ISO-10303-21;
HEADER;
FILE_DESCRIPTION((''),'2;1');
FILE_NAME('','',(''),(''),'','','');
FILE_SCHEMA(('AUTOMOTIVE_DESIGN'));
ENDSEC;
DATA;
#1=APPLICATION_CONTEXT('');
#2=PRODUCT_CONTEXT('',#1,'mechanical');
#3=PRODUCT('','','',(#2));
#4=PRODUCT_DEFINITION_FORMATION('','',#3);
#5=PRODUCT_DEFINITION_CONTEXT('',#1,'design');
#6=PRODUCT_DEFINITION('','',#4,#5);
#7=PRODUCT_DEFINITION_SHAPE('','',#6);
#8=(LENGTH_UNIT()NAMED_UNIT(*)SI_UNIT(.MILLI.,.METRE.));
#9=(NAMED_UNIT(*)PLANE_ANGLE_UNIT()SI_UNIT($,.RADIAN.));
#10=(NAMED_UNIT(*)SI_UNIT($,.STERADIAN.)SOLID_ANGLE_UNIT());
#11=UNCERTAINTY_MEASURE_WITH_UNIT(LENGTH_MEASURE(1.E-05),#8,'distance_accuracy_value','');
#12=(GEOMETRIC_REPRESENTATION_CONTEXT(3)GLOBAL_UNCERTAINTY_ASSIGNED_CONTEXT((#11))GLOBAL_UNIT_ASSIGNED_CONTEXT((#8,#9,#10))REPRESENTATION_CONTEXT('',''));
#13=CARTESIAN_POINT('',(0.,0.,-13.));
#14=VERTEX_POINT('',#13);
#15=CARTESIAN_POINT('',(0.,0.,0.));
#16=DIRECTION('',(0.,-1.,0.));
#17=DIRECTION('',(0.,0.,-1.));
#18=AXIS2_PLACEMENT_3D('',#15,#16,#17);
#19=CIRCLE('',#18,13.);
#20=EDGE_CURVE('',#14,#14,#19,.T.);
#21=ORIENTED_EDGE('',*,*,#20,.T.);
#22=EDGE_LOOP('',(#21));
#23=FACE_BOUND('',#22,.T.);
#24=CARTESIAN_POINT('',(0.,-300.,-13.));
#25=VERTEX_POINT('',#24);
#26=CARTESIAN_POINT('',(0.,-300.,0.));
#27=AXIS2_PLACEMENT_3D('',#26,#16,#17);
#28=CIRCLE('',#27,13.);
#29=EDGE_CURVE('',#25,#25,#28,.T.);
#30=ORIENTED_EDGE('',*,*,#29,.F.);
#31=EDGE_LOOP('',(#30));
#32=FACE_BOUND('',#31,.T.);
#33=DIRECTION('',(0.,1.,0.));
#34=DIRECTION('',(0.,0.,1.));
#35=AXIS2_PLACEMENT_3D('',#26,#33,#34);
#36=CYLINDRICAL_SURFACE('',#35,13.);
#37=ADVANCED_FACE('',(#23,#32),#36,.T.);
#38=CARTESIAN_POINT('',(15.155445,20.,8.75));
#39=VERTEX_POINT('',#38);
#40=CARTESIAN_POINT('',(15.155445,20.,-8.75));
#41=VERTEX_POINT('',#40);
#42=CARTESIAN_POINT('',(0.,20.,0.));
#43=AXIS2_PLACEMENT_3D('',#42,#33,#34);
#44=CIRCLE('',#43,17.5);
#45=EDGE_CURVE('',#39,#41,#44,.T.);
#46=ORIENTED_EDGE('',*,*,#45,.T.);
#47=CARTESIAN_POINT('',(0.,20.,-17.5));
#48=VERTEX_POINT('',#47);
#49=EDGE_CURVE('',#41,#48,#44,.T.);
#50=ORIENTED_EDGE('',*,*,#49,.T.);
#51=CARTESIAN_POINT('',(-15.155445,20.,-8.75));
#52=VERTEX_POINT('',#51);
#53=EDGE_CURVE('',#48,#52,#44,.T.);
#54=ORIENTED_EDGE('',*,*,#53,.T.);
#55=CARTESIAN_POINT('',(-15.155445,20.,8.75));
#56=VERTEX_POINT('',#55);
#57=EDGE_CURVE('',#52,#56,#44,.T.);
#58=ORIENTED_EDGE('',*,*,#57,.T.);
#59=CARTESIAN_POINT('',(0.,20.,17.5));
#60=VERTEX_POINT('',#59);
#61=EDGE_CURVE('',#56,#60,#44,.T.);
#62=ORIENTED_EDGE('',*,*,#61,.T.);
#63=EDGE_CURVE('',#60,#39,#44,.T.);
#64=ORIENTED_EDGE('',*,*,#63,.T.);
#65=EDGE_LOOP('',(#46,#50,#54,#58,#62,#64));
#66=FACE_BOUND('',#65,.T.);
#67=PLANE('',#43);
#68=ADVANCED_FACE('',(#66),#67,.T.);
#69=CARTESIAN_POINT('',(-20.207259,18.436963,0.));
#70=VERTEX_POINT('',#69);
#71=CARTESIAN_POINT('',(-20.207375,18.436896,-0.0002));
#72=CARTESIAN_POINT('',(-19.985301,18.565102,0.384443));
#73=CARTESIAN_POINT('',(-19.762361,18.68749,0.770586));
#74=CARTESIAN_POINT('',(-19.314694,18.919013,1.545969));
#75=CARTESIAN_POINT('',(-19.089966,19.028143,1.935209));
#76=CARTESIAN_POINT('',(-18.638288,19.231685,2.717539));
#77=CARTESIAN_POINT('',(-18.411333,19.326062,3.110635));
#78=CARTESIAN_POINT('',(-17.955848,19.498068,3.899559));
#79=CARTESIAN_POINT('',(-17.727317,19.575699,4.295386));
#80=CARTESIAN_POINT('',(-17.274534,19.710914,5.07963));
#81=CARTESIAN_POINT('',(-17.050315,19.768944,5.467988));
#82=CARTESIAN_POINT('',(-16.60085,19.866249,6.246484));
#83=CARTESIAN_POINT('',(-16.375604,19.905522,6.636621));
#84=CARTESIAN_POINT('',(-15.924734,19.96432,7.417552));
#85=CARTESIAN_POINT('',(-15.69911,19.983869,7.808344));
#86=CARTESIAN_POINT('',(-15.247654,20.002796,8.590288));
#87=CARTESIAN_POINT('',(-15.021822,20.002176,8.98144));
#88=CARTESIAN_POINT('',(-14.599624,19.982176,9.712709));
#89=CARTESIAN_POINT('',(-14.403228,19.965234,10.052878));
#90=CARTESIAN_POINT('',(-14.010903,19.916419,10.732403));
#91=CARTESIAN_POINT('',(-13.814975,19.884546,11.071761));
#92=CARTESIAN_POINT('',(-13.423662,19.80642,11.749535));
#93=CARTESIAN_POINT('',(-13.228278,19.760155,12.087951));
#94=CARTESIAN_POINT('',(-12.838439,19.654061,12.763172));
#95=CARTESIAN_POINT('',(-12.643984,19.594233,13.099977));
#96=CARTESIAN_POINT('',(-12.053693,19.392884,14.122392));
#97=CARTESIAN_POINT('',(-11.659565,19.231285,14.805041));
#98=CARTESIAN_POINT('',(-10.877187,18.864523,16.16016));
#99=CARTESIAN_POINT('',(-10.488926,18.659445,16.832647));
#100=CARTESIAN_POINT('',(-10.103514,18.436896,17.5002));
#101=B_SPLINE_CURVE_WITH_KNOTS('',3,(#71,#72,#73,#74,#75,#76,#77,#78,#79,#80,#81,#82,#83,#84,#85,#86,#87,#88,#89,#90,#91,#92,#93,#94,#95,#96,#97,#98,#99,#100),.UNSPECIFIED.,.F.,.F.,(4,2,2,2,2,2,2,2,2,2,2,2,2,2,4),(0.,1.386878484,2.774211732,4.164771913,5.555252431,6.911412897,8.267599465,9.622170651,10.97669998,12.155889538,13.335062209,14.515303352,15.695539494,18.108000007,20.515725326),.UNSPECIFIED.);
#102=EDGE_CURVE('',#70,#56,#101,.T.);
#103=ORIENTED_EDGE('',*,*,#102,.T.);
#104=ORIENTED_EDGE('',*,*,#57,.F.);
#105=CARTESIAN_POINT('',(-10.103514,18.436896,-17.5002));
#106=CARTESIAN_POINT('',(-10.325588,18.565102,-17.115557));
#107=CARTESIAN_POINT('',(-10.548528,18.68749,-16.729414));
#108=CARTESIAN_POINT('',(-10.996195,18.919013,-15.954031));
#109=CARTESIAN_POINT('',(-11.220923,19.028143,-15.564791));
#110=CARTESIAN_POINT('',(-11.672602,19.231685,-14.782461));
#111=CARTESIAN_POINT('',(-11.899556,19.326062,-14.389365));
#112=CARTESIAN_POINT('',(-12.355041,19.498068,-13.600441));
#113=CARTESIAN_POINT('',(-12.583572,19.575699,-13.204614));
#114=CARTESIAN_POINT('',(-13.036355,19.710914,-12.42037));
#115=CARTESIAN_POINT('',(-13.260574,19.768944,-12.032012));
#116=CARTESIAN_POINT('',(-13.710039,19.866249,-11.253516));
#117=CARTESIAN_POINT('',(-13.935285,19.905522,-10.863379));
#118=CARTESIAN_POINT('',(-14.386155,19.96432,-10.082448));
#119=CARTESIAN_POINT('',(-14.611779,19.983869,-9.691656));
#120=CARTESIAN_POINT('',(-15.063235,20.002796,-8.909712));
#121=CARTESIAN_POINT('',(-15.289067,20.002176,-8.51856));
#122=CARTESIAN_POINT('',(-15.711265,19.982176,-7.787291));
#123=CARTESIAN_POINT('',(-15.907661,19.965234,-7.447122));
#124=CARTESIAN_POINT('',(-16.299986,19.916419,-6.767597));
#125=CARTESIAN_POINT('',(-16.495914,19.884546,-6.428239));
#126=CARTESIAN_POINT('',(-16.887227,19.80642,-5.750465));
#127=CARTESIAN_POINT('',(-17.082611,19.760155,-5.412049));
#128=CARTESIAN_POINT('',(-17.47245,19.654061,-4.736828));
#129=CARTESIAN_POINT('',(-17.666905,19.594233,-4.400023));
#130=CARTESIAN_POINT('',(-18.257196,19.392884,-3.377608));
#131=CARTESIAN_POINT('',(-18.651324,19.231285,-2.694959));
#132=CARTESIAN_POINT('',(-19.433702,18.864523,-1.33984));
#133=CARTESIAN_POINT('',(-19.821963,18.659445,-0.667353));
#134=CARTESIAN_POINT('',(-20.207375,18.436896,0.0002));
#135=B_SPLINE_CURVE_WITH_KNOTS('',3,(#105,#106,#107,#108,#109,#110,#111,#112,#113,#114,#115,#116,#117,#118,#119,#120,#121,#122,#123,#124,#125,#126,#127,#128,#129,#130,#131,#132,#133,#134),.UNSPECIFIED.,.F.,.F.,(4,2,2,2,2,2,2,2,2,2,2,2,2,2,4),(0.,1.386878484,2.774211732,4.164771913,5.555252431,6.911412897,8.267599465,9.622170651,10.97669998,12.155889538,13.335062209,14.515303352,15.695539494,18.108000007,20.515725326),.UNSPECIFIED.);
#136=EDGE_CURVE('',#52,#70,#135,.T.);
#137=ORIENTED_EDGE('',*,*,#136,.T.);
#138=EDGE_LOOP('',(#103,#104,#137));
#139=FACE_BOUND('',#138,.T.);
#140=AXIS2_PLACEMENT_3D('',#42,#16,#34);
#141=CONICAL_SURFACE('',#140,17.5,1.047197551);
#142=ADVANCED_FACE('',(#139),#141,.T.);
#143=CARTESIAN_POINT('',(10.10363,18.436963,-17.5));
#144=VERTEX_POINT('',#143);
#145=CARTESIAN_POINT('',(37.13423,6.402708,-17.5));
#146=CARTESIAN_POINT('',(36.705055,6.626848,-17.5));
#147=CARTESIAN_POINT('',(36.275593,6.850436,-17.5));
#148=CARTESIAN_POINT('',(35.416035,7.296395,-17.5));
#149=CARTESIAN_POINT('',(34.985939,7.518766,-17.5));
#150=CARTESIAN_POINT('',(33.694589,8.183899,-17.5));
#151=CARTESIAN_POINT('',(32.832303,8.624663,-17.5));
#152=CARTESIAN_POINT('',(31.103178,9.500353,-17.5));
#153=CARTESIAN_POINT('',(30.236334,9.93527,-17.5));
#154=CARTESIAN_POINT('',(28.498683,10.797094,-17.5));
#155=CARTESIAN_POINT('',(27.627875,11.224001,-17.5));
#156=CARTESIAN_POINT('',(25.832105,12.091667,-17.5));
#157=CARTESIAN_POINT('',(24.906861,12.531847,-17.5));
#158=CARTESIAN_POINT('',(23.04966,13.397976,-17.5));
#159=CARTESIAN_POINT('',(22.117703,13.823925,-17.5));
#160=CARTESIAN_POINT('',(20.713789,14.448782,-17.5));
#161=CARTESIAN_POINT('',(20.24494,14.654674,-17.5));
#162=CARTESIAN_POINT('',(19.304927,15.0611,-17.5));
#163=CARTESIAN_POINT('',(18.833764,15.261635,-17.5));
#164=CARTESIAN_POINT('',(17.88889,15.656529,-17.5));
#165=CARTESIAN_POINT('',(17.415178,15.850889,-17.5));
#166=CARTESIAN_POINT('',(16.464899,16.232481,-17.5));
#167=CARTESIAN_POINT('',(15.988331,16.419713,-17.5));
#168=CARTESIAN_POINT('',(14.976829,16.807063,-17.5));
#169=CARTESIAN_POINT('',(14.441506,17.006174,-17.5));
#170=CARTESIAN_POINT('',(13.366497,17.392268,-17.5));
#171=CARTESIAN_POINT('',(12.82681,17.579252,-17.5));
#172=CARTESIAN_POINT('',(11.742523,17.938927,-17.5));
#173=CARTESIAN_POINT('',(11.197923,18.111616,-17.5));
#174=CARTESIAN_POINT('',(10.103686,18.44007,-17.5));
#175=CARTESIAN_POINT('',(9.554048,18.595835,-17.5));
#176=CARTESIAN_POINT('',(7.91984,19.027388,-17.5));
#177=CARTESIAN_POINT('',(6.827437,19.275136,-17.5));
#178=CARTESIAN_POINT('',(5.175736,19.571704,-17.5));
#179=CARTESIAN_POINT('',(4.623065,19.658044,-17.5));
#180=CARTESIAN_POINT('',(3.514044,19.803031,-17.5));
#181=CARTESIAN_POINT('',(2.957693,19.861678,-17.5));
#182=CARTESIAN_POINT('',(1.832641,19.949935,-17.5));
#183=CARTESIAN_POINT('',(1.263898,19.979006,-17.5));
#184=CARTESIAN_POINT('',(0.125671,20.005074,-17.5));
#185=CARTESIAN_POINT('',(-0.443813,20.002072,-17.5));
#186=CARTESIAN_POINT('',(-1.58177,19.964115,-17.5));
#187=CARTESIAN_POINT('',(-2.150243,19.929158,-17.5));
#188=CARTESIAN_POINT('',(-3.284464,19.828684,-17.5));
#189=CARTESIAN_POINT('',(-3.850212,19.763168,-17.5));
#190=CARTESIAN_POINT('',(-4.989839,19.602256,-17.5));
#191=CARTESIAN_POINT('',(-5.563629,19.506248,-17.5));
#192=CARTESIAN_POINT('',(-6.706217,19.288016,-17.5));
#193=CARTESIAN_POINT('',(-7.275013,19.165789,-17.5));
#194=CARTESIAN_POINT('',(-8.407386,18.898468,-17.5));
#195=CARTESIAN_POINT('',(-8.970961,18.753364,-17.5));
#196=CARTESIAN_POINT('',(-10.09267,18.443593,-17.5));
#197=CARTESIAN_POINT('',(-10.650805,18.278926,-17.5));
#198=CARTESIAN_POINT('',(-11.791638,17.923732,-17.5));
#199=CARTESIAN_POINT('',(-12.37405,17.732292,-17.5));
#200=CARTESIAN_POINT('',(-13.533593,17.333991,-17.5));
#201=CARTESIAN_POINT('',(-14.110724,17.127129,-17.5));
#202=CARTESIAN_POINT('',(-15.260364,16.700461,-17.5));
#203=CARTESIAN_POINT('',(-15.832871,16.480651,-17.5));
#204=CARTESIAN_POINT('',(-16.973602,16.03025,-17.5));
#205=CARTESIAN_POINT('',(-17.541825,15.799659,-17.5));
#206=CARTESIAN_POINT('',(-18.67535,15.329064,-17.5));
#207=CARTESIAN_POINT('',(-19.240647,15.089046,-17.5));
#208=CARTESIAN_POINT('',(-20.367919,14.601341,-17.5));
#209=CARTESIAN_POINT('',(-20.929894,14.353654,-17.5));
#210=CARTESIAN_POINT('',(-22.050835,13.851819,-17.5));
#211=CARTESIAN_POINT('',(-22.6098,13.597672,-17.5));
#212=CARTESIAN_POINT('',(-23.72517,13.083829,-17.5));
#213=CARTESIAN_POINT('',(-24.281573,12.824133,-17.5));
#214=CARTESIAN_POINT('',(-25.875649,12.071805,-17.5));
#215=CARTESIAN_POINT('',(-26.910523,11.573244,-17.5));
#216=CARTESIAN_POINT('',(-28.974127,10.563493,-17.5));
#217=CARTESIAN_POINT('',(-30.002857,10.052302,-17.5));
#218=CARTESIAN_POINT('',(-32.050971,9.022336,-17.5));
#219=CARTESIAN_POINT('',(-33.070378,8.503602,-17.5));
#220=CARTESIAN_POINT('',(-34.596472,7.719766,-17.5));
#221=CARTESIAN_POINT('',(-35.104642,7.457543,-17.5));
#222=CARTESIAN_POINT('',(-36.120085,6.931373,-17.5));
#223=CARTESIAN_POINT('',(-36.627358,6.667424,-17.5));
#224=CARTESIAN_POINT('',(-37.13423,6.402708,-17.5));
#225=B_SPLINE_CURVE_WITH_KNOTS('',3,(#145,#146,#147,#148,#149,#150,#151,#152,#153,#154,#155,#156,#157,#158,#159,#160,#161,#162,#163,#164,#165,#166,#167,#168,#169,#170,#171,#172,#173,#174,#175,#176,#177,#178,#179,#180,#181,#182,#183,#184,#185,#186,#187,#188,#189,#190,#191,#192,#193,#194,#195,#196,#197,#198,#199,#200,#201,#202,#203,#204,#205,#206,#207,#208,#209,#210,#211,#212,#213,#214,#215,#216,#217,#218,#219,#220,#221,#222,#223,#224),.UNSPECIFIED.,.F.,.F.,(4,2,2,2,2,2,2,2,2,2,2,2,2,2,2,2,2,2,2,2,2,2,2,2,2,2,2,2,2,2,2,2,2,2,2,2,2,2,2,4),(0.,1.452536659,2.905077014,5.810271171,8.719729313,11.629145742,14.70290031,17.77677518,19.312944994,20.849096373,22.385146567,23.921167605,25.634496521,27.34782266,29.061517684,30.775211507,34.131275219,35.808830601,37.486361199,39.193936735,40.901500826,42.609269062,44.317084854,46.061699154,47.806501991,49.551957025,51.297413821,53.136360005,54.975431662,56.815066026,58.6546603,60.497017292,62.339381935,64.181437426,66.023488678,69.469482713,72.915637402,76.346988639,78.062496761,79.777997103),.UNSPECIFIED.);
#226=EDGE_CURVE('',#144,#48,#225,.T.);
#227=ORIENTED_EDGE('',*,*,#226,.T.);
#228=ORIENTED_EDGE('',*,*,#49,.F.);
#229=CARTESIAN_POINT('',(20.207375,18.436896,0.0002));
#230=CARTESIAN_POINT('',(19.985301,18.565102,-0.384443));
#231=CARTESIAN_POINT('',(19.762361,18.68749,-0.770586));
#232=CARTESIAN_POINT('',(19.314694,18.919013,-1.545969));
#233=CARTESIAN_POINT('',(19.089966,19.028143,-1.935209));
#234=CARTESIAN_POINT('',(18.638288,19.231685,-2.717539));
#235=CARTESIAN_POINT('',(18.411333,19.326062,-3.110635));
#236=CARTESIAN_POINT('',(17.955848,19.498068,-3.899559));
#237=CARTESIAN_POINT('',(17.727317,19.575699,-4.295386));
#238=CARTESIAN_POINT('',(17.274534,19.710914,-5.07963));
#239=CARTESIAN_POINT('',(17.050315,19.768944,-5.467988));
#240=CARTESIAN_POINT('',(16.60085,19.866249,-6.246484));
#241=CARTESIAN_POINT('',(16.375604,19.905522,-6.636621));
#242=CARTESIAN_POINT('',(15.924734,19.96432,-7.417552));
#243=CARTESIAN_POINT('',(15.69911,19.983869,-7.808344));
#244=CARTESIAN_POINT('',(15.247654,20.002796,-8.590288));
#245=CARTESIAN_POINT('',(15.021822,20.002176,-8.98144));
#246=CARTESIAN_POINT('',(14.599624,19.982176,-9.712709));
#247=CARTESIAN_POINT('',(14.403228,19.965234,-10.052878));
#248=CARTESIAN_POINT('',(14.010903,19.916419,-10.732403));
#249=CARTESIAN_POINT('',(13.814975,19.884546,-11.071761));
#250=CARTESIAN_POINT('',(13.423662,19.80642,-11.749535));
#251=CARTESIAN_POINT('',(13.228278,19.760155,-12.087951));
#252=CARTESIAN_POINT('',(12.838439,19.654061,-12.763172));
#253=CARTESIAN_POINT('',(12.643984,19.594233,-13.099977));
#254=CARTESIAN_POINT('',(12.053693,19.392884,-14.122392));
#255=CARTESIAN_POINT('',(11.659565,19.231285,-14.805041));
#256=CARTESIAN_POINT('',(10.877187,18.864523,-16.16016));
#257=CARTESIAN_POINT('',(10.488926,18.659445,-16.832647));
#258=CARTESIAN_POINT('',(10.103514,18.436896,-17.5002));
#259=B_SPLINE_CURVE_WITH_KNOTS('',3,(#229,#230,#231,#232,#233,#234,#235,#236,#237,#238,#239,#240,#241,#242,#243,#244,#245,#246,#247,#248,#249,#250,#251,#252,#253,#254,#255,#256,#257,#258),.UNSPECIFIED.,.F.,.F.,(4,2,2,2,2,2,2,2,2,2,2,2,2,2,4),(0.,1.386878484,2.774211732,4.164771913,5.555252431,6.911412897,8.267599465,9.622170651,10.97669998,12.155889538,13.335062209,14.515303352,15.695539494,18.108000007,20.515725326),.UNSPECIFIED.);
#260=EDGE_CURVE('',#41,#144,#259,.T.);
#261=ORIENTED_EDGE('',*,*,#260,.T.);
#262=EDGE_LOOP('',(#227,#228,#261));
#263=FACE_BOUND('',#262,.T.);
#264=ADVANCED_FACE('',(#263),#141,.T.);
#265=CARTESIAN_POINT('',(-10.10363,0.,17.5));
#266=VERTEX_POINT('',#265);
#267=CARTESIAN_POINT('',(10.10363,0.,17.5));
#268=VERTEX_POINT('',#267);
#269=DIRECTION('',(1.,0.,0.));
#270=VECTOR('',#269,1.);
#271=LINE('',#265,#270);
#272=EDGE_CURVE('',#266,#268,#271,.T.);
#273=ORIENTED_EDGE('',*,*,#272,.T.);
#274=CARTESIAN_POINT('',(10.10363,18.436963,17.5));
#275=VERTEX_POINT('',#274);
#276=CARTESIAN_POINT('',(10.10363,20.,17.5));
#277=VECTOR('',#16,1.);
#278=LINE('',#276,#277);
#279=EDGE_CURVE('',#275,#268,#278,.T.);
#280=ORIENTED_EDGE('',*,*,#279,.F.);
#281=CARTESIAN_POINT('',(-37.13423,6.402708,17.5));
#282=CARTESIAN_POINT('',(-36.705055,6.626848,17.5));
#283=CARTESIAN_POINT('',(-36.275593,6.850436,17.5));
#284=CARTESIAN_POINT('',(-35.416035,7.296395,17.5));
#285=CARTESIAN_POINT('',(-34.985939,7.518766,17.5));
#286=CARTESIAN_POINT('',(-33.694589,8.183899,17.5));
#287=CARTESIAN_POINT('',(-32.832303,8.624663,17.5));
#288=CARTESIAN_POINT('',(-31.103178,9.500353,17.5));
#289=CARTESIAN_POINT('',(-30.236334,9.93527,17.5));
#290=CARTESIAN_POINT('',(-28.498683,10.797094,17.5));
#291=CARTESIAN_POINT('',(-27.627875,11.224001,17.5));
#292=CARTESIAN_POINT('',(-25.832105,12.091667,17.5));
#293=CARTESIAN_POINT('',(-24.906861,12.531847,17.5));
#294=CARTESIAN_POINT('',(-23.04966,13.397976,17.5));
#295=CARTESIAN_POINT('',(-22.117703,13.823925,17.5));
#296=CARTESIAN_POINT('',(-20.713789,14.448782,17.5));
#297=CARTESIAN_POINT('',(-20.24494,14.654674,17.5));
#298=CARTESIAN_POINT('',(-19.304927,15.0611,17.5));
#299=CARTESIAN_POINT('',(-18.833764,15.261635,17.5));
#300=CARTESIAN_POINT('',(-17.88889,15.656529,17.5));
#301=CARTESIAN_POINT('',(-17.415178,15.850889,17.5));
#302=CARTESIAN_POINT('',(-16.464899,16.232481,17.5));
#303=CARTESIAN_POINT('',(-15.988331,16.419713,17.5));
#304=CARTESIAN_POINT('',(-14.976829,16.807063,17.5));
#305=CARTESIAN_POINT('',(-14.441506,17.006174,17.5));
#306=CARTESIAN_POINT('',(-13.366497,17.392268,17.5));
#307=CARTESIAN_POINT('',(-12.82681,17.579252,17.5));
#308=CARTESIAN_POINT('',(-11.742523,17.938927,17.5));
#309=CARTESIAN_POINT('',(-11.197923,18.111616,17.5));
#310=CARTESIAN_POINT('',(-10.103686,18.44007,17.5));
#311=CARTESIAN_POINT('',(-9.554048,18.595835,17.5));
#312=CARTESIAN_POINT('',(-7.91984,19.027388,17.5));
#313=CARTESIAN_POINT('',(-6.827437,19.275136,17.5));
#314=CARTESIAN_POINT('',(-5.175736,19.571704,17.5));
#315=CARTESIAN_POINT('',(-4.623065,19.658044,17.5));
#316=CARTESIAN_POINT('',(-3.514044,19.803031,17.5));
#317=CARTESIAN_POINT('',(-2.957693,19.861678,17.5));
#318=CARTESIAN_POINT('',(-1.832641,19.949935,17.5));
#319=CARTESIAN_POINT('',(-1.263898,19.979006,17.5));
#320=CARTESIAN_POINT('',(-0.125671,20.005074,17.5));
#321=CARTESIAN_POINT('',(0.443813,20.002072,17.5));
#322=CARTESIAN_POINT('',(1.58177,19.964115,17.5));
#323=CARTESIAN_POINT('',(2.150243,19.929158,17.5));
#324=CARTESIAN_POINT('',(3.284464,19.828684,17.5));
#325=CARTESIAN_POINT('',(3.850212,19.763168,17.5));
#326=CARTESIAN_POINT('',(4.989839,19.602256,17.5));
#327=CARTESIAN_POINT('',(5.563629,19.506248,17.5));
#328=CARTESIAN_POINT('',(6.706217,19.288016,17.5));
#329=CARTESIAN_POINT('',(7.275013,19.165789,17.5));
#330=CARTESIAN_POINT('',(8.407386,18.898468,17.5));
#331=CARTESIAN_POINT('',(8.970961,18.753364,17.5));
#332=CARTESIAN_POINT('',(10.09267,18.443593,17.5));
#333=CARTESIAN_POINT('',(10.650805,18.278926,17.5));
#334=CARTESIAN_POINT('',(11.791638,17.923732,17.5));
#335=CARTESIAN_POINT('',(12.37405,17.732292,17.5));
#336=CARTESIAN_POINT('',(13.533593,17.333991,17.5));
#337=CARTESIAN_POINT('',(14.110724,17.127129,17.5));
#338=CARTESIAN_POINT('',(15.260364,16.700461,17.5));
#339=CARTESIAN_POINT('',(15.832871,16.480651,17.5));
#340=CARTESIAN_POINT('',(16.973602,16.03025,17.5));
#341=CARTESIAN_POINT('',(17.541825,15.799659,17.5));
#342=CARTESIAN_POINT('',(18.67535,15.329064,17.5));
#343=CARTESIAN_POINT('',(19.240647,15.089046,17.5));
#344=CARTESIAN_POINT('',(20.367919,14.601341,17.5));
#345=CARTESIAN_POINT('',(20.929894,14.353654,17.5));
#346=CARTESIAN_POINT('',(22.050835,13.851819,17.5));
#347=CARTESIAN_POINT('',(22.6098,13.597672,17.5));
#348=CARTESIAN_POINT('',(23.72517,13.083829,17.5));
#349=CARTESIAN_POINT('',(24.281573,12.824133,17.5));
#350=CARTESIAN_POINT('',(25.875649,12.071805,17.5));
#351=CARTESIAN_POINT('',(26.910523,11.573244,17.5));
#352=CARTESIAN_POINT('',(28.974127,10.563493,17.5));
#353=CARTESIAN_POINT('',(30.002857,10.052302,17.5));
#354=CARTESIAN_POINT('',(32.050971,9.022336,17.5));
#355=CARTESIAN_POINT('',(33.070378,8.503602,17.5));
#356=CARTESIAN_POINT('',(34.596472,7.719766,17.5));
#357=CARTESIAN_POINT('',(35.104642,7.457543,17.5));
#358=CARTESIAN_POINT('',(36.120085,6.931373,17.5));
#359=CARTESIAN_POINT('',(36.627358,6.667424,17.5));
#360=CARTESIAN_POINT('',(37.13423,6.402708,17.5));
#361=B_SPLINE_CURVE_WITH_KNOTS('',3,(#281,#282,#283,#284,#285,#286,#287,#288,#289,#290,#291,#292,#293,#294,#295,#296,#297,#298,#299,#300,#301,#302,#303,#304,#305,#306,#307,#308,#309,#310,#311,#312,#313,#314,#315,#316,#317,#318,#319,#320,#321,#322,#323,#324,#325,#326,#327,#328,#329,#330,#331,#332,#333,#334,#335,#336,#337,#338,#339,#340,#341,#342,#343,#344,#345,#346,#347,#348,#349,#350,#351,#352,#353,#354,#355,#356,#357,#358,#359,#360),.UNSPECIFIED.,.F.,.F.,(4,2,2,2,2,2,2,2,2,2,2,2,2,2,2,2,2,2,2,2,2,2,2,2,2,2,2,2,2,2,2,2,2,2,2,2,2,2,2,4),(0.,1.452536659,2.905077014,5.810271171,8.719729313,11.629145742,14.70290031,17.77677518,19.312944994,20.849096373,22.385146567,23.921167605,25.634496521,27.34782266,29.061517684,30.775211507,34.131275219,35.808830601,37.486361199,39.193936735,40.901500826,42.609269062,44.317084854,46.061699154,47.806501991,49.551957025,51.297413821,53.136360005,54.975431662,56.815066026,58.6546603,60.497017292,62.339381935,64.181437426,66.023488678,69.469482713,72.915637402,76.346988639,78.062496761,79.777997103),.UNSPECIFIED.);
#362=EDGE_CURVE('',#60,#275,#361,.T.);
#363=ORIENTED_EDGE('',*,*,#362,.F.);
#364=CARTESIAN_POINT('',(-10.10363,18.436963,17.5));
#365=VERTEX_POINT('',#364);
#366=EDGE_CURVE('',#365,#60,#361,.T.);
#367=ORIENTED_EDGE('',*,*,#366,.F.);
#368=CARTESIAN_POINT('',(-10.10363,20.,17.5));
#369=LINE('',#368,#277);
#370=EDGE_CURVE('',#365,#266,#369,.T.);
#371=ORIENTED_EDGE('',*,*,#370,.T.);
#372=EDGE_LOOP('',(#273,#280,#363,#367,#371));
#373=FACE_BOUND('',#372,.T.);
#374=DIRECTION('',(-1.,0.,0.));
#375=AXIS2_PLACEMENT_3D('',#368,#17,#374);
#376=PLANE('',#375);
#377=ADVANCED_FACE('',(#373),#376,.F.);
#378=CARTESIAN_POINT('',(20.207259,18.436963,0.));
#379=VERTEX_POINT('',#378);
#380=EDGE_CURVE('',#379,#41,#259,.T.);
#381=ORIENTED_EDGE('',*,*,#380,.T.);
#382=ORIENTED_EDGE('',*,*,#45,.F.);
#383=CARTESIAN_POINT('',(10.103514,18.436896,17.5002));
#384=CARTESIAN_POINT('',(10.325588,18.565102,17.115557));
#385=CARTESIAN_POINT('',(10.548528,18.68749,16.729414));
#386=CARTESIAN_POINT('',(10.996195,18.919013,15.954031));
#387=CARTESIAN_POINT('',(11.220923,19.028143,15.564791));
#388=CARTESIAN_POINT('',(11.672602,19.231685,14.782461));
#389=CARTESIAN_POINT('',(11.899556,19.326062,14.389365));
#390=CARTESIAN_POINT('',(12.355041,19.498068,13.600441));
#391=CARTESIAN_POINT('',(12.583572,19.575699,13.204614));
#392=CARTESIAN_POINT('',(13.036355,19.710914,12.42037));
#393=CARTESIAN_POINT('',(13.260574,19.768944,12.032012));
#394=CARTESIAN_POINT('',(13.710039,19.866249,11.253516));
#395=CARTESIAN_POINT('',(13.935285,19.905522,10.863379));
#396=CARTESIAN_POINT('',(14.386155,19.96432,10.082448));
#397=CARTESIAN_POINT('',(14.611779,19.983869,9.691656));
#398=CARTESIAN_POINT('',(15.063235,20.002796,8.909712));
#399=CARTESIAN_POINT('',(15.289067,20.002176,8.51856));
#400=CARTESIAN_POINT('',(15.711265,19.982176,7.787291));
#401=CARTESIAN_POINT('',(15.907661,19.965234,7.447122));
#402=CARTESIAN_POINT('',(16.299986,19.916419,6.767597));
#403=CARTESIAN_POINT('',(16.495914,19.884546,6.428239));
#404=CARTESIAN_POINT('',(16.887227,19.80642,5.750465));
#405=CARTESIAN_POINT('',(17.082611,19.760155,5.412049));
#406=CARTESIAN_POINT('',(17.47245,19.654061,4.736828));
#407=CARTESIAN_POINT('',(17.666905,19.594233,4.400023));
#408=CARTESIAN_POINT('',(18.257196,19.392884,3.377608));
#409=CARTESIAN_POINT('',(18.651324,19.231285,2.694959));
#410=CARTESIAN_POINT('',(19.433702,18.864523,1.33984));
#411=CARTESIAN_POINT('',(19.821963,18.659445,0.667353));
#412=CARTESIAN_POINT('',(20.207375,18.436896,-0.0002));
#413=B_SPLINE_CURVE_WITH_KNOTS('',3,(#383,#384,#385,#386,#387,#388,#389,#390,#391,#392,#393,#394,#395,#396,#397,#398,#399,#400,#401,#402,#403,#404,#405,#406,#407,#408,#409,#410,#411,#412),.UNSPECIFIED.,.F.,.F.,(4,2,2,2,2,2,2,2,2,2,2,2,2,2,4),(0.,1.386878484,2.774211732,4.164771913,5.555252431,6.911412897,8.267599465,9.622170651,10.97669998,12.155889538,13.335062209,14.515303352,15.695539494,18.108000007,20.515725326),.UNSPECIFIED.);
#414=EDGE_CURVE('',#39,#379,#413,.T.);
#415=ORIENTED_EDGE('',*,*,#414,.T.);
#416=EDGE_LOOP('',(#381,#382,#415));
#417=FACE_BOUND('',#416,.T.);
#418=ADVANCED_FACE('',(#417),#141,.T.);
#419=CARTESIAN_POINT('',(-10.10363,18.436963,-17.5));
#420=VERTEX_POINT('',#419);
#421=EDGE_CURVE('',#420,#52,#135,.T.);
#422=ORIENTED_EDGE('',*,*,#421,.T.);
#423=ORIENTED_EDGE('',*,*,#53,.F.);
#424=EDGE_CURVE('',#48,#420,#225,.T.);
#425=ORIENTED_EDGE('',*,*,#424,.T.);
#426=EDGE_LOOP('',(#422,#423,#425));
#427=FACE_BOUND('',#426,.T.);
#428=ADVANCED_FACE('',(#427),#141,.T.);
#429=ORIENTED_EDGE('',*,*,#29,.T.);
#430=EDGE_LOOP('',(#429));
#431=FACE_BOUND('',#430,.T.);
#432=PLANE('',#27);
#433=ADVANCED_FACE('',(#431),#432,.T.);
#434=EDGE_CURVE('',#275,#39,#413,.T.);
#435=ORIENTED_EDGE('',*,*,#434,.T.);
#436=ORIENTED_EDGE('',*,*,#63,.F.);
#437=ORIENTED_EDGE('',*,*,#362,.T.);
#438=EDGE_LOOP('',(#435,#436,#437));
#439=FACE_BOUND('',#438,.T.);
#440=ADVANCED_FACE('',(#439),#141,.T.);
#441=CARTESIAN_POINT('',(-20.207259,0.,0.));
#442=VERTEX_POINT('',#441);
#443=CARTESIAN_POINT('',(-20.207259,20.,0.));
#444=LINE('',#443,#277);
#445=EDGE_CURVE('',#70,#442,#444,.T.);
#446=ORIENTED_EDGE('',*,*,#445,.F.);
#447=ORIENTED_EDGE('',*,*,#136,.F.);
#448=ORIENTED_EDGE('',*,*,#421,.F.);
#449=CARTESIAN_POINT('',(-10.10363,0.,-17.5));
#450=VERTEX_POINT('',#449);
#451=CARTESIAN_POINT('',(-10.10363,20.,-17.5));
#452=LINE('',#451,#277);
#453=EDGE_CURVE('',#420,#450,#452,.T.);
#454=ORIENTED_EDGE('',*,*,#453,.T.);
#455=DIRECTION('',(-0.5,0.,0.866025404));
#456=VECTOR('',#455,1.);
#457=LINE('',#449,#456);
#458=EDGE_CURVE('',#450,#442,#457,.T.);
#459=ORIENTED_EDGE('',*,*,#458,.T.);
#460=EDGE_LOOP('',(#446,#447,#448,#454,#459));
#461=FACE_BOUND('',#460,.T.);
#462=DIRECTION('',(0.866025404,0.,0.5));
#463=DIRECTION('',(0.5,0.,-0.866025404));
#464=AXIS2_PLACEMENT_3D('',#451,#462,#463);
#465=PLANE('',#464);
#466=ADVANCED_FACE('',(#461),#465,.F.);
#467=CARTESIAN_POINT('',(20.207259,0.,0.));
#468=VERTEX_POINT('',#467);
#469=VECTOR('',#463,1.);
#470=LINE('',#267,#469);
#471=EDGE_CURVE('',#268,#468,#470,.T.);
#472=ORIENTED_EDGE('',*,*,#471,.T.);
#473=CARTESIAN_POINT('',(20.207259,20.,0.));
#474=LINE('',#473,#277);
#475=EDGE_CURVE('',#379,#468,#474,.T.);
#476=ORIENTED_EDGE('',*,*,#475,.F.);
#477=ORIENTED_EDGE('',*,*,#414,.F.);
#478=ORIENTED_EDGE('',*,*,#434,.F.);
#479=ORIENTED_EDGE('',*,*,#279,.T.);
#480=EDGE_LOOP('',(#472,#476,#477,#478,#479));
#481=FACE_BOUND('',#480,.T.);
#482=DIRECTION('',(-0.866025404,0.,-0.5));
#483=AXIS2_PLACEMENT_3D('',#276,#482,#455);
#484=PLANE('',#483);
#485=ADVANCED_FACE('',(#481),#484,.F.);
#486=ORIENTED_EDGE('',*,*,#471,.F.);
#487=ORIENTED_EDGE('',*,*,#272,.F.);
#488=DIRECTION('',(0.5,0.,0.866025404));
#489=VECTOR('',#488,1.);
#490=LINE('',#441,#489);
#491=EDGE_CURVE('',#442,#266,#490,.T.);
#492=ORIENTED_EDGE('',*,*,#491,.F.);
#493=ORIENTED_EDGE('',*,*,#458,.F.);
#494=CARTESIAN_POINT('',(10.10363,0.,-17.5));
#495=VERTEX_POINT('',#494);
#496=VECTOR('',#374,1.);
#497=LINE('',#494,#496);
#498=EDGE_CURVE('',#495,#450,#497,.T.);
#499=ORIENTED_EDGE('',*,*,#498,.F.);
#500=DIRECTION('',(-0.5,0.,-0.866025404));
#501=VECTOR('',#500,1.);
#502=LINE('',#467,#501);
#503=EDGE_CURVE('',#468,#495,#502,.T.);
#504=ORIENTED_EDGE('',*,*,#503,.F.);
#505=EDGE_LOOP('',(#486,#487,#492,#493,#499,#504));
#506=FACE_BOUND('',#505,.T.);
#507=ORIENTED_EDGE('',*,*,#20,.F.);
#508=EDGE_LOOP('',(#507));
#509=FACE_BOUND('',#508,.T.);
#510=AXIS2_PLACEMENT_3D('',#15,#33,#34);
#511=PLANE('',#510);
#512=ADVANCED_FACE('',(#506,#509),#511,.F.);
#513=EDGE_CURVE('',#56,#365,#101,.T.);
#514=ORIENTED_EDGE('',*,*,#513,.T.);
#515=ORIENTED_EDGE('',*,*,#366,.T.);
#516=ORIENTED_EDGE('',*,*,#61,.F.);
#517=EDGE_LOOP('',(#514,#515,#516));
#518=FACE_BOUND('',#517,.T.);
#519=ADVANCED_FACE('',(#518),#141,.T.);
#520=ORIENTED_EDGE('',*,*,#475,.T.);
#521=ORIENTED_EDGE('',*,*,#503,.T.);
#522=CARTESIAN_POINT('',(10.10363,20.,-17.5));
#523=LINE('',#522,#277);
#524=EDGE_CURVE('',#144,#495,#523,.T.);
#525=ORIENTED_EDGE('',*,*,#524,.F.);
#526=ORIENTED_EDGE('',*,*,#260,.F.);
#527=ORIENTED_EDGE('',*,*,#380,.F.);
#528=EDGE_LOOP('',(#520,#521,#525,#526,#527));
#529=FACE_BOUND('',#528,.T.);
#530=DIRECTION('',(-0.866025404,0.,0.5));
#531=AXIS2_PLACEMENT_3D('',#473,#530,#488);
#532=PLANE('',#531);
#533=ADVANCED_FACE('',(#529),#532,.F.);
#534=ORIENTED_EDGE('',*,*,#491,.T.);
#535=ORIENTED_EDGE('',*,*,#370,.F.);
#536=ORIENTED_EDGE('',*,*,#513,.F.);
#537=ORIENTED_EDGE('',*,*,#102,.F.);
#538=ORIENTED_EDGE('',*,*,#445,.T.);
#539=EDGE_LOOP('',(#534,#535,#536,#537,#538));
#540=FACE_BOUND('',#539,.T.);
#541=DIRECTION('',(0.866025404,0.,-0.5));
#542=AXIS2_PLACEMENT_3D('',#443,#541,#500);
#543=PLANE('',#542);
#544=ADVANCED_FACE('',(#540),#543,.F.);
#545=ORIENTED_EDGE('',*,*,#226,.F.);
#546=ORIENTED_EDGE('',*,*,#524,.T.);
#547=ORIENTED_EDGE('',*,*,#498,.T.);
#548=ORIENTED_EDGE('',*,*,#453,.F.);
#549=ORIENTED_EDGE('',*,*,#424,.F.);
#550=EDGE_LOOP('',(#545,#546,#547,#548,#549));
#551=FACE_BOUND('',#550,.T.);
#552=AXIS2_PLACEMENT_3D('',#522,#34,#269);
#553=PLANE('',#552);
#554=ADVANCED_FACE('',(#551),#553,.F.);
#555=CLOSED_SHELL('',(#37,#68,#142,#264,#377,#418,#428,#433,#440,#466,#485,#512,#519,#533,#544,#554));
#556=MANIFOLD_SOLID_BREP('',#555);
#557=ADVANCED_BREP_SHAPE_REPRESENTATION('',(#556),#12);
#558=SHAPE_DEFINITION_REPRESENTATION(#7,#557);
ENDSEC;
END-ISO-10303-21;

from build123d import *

# Parameters (mm, degrees)
BOSS_EXTRUDE1_DEPTH = 20
SKETCH2_OUTSIDE_W   = 123.112
SKETCH2_OUTSIDE_H   = 117.698
SKETCH2_OUTSIDE_R   = 17.5
CUT_EXTRUDE1_DEPTH  = 20
CUT_EXTRUDE1_TAPER  = 60
SKETCH3_R           = 13
BOSS_EXTRUDE2_DEPTH = 300


with BuildPart() as part:
    # Sketch1 → Boss-Extrude1 (new body)
    with BuildSketch(Plane(origin=(0, 0, 0), x_dir=(1, 0, 0), z_dir=(0, 1, 0))):
        Polygon((-10.103629711, -17.5), (10.103629711, -17.5), (20.207259422, 0), (10.103629711, 17.5), (-10.103629711, 17.5), (-20.207259422, 0), align=None)
    extrude(amount=BOSS_EXTRUDE1_DEPTH)

    # Sketch2 outside → Cut-Extrude1 (cut)
    with BuildSketch(Plane(origin=(0, 20, 0), x_dir=(1, 0, 0), z_dir=(0, 1, 0))):
        Rectangle(SKETCH2_OUTSIDE_W, SKETCH2_OUTSIDE_H)
        Circle(SKETCH2_OUTSIDE_R, mode=Mode.SUBTRACT)
    extrude(amount=-CUT_EXTRUDE1_DEPTH, taper=CUT_EXTRUDE1_TAPER, mode=Mode.SUBTRACT)

    # Sketch3 → Boss-Extrude2 (add)
    with BuildSketch(Plane.XZ):
        Circle(SKETCH3_R)
    extrude(amount=BOSS_EXTRUDE2_DEPTH)


solid = part.part
